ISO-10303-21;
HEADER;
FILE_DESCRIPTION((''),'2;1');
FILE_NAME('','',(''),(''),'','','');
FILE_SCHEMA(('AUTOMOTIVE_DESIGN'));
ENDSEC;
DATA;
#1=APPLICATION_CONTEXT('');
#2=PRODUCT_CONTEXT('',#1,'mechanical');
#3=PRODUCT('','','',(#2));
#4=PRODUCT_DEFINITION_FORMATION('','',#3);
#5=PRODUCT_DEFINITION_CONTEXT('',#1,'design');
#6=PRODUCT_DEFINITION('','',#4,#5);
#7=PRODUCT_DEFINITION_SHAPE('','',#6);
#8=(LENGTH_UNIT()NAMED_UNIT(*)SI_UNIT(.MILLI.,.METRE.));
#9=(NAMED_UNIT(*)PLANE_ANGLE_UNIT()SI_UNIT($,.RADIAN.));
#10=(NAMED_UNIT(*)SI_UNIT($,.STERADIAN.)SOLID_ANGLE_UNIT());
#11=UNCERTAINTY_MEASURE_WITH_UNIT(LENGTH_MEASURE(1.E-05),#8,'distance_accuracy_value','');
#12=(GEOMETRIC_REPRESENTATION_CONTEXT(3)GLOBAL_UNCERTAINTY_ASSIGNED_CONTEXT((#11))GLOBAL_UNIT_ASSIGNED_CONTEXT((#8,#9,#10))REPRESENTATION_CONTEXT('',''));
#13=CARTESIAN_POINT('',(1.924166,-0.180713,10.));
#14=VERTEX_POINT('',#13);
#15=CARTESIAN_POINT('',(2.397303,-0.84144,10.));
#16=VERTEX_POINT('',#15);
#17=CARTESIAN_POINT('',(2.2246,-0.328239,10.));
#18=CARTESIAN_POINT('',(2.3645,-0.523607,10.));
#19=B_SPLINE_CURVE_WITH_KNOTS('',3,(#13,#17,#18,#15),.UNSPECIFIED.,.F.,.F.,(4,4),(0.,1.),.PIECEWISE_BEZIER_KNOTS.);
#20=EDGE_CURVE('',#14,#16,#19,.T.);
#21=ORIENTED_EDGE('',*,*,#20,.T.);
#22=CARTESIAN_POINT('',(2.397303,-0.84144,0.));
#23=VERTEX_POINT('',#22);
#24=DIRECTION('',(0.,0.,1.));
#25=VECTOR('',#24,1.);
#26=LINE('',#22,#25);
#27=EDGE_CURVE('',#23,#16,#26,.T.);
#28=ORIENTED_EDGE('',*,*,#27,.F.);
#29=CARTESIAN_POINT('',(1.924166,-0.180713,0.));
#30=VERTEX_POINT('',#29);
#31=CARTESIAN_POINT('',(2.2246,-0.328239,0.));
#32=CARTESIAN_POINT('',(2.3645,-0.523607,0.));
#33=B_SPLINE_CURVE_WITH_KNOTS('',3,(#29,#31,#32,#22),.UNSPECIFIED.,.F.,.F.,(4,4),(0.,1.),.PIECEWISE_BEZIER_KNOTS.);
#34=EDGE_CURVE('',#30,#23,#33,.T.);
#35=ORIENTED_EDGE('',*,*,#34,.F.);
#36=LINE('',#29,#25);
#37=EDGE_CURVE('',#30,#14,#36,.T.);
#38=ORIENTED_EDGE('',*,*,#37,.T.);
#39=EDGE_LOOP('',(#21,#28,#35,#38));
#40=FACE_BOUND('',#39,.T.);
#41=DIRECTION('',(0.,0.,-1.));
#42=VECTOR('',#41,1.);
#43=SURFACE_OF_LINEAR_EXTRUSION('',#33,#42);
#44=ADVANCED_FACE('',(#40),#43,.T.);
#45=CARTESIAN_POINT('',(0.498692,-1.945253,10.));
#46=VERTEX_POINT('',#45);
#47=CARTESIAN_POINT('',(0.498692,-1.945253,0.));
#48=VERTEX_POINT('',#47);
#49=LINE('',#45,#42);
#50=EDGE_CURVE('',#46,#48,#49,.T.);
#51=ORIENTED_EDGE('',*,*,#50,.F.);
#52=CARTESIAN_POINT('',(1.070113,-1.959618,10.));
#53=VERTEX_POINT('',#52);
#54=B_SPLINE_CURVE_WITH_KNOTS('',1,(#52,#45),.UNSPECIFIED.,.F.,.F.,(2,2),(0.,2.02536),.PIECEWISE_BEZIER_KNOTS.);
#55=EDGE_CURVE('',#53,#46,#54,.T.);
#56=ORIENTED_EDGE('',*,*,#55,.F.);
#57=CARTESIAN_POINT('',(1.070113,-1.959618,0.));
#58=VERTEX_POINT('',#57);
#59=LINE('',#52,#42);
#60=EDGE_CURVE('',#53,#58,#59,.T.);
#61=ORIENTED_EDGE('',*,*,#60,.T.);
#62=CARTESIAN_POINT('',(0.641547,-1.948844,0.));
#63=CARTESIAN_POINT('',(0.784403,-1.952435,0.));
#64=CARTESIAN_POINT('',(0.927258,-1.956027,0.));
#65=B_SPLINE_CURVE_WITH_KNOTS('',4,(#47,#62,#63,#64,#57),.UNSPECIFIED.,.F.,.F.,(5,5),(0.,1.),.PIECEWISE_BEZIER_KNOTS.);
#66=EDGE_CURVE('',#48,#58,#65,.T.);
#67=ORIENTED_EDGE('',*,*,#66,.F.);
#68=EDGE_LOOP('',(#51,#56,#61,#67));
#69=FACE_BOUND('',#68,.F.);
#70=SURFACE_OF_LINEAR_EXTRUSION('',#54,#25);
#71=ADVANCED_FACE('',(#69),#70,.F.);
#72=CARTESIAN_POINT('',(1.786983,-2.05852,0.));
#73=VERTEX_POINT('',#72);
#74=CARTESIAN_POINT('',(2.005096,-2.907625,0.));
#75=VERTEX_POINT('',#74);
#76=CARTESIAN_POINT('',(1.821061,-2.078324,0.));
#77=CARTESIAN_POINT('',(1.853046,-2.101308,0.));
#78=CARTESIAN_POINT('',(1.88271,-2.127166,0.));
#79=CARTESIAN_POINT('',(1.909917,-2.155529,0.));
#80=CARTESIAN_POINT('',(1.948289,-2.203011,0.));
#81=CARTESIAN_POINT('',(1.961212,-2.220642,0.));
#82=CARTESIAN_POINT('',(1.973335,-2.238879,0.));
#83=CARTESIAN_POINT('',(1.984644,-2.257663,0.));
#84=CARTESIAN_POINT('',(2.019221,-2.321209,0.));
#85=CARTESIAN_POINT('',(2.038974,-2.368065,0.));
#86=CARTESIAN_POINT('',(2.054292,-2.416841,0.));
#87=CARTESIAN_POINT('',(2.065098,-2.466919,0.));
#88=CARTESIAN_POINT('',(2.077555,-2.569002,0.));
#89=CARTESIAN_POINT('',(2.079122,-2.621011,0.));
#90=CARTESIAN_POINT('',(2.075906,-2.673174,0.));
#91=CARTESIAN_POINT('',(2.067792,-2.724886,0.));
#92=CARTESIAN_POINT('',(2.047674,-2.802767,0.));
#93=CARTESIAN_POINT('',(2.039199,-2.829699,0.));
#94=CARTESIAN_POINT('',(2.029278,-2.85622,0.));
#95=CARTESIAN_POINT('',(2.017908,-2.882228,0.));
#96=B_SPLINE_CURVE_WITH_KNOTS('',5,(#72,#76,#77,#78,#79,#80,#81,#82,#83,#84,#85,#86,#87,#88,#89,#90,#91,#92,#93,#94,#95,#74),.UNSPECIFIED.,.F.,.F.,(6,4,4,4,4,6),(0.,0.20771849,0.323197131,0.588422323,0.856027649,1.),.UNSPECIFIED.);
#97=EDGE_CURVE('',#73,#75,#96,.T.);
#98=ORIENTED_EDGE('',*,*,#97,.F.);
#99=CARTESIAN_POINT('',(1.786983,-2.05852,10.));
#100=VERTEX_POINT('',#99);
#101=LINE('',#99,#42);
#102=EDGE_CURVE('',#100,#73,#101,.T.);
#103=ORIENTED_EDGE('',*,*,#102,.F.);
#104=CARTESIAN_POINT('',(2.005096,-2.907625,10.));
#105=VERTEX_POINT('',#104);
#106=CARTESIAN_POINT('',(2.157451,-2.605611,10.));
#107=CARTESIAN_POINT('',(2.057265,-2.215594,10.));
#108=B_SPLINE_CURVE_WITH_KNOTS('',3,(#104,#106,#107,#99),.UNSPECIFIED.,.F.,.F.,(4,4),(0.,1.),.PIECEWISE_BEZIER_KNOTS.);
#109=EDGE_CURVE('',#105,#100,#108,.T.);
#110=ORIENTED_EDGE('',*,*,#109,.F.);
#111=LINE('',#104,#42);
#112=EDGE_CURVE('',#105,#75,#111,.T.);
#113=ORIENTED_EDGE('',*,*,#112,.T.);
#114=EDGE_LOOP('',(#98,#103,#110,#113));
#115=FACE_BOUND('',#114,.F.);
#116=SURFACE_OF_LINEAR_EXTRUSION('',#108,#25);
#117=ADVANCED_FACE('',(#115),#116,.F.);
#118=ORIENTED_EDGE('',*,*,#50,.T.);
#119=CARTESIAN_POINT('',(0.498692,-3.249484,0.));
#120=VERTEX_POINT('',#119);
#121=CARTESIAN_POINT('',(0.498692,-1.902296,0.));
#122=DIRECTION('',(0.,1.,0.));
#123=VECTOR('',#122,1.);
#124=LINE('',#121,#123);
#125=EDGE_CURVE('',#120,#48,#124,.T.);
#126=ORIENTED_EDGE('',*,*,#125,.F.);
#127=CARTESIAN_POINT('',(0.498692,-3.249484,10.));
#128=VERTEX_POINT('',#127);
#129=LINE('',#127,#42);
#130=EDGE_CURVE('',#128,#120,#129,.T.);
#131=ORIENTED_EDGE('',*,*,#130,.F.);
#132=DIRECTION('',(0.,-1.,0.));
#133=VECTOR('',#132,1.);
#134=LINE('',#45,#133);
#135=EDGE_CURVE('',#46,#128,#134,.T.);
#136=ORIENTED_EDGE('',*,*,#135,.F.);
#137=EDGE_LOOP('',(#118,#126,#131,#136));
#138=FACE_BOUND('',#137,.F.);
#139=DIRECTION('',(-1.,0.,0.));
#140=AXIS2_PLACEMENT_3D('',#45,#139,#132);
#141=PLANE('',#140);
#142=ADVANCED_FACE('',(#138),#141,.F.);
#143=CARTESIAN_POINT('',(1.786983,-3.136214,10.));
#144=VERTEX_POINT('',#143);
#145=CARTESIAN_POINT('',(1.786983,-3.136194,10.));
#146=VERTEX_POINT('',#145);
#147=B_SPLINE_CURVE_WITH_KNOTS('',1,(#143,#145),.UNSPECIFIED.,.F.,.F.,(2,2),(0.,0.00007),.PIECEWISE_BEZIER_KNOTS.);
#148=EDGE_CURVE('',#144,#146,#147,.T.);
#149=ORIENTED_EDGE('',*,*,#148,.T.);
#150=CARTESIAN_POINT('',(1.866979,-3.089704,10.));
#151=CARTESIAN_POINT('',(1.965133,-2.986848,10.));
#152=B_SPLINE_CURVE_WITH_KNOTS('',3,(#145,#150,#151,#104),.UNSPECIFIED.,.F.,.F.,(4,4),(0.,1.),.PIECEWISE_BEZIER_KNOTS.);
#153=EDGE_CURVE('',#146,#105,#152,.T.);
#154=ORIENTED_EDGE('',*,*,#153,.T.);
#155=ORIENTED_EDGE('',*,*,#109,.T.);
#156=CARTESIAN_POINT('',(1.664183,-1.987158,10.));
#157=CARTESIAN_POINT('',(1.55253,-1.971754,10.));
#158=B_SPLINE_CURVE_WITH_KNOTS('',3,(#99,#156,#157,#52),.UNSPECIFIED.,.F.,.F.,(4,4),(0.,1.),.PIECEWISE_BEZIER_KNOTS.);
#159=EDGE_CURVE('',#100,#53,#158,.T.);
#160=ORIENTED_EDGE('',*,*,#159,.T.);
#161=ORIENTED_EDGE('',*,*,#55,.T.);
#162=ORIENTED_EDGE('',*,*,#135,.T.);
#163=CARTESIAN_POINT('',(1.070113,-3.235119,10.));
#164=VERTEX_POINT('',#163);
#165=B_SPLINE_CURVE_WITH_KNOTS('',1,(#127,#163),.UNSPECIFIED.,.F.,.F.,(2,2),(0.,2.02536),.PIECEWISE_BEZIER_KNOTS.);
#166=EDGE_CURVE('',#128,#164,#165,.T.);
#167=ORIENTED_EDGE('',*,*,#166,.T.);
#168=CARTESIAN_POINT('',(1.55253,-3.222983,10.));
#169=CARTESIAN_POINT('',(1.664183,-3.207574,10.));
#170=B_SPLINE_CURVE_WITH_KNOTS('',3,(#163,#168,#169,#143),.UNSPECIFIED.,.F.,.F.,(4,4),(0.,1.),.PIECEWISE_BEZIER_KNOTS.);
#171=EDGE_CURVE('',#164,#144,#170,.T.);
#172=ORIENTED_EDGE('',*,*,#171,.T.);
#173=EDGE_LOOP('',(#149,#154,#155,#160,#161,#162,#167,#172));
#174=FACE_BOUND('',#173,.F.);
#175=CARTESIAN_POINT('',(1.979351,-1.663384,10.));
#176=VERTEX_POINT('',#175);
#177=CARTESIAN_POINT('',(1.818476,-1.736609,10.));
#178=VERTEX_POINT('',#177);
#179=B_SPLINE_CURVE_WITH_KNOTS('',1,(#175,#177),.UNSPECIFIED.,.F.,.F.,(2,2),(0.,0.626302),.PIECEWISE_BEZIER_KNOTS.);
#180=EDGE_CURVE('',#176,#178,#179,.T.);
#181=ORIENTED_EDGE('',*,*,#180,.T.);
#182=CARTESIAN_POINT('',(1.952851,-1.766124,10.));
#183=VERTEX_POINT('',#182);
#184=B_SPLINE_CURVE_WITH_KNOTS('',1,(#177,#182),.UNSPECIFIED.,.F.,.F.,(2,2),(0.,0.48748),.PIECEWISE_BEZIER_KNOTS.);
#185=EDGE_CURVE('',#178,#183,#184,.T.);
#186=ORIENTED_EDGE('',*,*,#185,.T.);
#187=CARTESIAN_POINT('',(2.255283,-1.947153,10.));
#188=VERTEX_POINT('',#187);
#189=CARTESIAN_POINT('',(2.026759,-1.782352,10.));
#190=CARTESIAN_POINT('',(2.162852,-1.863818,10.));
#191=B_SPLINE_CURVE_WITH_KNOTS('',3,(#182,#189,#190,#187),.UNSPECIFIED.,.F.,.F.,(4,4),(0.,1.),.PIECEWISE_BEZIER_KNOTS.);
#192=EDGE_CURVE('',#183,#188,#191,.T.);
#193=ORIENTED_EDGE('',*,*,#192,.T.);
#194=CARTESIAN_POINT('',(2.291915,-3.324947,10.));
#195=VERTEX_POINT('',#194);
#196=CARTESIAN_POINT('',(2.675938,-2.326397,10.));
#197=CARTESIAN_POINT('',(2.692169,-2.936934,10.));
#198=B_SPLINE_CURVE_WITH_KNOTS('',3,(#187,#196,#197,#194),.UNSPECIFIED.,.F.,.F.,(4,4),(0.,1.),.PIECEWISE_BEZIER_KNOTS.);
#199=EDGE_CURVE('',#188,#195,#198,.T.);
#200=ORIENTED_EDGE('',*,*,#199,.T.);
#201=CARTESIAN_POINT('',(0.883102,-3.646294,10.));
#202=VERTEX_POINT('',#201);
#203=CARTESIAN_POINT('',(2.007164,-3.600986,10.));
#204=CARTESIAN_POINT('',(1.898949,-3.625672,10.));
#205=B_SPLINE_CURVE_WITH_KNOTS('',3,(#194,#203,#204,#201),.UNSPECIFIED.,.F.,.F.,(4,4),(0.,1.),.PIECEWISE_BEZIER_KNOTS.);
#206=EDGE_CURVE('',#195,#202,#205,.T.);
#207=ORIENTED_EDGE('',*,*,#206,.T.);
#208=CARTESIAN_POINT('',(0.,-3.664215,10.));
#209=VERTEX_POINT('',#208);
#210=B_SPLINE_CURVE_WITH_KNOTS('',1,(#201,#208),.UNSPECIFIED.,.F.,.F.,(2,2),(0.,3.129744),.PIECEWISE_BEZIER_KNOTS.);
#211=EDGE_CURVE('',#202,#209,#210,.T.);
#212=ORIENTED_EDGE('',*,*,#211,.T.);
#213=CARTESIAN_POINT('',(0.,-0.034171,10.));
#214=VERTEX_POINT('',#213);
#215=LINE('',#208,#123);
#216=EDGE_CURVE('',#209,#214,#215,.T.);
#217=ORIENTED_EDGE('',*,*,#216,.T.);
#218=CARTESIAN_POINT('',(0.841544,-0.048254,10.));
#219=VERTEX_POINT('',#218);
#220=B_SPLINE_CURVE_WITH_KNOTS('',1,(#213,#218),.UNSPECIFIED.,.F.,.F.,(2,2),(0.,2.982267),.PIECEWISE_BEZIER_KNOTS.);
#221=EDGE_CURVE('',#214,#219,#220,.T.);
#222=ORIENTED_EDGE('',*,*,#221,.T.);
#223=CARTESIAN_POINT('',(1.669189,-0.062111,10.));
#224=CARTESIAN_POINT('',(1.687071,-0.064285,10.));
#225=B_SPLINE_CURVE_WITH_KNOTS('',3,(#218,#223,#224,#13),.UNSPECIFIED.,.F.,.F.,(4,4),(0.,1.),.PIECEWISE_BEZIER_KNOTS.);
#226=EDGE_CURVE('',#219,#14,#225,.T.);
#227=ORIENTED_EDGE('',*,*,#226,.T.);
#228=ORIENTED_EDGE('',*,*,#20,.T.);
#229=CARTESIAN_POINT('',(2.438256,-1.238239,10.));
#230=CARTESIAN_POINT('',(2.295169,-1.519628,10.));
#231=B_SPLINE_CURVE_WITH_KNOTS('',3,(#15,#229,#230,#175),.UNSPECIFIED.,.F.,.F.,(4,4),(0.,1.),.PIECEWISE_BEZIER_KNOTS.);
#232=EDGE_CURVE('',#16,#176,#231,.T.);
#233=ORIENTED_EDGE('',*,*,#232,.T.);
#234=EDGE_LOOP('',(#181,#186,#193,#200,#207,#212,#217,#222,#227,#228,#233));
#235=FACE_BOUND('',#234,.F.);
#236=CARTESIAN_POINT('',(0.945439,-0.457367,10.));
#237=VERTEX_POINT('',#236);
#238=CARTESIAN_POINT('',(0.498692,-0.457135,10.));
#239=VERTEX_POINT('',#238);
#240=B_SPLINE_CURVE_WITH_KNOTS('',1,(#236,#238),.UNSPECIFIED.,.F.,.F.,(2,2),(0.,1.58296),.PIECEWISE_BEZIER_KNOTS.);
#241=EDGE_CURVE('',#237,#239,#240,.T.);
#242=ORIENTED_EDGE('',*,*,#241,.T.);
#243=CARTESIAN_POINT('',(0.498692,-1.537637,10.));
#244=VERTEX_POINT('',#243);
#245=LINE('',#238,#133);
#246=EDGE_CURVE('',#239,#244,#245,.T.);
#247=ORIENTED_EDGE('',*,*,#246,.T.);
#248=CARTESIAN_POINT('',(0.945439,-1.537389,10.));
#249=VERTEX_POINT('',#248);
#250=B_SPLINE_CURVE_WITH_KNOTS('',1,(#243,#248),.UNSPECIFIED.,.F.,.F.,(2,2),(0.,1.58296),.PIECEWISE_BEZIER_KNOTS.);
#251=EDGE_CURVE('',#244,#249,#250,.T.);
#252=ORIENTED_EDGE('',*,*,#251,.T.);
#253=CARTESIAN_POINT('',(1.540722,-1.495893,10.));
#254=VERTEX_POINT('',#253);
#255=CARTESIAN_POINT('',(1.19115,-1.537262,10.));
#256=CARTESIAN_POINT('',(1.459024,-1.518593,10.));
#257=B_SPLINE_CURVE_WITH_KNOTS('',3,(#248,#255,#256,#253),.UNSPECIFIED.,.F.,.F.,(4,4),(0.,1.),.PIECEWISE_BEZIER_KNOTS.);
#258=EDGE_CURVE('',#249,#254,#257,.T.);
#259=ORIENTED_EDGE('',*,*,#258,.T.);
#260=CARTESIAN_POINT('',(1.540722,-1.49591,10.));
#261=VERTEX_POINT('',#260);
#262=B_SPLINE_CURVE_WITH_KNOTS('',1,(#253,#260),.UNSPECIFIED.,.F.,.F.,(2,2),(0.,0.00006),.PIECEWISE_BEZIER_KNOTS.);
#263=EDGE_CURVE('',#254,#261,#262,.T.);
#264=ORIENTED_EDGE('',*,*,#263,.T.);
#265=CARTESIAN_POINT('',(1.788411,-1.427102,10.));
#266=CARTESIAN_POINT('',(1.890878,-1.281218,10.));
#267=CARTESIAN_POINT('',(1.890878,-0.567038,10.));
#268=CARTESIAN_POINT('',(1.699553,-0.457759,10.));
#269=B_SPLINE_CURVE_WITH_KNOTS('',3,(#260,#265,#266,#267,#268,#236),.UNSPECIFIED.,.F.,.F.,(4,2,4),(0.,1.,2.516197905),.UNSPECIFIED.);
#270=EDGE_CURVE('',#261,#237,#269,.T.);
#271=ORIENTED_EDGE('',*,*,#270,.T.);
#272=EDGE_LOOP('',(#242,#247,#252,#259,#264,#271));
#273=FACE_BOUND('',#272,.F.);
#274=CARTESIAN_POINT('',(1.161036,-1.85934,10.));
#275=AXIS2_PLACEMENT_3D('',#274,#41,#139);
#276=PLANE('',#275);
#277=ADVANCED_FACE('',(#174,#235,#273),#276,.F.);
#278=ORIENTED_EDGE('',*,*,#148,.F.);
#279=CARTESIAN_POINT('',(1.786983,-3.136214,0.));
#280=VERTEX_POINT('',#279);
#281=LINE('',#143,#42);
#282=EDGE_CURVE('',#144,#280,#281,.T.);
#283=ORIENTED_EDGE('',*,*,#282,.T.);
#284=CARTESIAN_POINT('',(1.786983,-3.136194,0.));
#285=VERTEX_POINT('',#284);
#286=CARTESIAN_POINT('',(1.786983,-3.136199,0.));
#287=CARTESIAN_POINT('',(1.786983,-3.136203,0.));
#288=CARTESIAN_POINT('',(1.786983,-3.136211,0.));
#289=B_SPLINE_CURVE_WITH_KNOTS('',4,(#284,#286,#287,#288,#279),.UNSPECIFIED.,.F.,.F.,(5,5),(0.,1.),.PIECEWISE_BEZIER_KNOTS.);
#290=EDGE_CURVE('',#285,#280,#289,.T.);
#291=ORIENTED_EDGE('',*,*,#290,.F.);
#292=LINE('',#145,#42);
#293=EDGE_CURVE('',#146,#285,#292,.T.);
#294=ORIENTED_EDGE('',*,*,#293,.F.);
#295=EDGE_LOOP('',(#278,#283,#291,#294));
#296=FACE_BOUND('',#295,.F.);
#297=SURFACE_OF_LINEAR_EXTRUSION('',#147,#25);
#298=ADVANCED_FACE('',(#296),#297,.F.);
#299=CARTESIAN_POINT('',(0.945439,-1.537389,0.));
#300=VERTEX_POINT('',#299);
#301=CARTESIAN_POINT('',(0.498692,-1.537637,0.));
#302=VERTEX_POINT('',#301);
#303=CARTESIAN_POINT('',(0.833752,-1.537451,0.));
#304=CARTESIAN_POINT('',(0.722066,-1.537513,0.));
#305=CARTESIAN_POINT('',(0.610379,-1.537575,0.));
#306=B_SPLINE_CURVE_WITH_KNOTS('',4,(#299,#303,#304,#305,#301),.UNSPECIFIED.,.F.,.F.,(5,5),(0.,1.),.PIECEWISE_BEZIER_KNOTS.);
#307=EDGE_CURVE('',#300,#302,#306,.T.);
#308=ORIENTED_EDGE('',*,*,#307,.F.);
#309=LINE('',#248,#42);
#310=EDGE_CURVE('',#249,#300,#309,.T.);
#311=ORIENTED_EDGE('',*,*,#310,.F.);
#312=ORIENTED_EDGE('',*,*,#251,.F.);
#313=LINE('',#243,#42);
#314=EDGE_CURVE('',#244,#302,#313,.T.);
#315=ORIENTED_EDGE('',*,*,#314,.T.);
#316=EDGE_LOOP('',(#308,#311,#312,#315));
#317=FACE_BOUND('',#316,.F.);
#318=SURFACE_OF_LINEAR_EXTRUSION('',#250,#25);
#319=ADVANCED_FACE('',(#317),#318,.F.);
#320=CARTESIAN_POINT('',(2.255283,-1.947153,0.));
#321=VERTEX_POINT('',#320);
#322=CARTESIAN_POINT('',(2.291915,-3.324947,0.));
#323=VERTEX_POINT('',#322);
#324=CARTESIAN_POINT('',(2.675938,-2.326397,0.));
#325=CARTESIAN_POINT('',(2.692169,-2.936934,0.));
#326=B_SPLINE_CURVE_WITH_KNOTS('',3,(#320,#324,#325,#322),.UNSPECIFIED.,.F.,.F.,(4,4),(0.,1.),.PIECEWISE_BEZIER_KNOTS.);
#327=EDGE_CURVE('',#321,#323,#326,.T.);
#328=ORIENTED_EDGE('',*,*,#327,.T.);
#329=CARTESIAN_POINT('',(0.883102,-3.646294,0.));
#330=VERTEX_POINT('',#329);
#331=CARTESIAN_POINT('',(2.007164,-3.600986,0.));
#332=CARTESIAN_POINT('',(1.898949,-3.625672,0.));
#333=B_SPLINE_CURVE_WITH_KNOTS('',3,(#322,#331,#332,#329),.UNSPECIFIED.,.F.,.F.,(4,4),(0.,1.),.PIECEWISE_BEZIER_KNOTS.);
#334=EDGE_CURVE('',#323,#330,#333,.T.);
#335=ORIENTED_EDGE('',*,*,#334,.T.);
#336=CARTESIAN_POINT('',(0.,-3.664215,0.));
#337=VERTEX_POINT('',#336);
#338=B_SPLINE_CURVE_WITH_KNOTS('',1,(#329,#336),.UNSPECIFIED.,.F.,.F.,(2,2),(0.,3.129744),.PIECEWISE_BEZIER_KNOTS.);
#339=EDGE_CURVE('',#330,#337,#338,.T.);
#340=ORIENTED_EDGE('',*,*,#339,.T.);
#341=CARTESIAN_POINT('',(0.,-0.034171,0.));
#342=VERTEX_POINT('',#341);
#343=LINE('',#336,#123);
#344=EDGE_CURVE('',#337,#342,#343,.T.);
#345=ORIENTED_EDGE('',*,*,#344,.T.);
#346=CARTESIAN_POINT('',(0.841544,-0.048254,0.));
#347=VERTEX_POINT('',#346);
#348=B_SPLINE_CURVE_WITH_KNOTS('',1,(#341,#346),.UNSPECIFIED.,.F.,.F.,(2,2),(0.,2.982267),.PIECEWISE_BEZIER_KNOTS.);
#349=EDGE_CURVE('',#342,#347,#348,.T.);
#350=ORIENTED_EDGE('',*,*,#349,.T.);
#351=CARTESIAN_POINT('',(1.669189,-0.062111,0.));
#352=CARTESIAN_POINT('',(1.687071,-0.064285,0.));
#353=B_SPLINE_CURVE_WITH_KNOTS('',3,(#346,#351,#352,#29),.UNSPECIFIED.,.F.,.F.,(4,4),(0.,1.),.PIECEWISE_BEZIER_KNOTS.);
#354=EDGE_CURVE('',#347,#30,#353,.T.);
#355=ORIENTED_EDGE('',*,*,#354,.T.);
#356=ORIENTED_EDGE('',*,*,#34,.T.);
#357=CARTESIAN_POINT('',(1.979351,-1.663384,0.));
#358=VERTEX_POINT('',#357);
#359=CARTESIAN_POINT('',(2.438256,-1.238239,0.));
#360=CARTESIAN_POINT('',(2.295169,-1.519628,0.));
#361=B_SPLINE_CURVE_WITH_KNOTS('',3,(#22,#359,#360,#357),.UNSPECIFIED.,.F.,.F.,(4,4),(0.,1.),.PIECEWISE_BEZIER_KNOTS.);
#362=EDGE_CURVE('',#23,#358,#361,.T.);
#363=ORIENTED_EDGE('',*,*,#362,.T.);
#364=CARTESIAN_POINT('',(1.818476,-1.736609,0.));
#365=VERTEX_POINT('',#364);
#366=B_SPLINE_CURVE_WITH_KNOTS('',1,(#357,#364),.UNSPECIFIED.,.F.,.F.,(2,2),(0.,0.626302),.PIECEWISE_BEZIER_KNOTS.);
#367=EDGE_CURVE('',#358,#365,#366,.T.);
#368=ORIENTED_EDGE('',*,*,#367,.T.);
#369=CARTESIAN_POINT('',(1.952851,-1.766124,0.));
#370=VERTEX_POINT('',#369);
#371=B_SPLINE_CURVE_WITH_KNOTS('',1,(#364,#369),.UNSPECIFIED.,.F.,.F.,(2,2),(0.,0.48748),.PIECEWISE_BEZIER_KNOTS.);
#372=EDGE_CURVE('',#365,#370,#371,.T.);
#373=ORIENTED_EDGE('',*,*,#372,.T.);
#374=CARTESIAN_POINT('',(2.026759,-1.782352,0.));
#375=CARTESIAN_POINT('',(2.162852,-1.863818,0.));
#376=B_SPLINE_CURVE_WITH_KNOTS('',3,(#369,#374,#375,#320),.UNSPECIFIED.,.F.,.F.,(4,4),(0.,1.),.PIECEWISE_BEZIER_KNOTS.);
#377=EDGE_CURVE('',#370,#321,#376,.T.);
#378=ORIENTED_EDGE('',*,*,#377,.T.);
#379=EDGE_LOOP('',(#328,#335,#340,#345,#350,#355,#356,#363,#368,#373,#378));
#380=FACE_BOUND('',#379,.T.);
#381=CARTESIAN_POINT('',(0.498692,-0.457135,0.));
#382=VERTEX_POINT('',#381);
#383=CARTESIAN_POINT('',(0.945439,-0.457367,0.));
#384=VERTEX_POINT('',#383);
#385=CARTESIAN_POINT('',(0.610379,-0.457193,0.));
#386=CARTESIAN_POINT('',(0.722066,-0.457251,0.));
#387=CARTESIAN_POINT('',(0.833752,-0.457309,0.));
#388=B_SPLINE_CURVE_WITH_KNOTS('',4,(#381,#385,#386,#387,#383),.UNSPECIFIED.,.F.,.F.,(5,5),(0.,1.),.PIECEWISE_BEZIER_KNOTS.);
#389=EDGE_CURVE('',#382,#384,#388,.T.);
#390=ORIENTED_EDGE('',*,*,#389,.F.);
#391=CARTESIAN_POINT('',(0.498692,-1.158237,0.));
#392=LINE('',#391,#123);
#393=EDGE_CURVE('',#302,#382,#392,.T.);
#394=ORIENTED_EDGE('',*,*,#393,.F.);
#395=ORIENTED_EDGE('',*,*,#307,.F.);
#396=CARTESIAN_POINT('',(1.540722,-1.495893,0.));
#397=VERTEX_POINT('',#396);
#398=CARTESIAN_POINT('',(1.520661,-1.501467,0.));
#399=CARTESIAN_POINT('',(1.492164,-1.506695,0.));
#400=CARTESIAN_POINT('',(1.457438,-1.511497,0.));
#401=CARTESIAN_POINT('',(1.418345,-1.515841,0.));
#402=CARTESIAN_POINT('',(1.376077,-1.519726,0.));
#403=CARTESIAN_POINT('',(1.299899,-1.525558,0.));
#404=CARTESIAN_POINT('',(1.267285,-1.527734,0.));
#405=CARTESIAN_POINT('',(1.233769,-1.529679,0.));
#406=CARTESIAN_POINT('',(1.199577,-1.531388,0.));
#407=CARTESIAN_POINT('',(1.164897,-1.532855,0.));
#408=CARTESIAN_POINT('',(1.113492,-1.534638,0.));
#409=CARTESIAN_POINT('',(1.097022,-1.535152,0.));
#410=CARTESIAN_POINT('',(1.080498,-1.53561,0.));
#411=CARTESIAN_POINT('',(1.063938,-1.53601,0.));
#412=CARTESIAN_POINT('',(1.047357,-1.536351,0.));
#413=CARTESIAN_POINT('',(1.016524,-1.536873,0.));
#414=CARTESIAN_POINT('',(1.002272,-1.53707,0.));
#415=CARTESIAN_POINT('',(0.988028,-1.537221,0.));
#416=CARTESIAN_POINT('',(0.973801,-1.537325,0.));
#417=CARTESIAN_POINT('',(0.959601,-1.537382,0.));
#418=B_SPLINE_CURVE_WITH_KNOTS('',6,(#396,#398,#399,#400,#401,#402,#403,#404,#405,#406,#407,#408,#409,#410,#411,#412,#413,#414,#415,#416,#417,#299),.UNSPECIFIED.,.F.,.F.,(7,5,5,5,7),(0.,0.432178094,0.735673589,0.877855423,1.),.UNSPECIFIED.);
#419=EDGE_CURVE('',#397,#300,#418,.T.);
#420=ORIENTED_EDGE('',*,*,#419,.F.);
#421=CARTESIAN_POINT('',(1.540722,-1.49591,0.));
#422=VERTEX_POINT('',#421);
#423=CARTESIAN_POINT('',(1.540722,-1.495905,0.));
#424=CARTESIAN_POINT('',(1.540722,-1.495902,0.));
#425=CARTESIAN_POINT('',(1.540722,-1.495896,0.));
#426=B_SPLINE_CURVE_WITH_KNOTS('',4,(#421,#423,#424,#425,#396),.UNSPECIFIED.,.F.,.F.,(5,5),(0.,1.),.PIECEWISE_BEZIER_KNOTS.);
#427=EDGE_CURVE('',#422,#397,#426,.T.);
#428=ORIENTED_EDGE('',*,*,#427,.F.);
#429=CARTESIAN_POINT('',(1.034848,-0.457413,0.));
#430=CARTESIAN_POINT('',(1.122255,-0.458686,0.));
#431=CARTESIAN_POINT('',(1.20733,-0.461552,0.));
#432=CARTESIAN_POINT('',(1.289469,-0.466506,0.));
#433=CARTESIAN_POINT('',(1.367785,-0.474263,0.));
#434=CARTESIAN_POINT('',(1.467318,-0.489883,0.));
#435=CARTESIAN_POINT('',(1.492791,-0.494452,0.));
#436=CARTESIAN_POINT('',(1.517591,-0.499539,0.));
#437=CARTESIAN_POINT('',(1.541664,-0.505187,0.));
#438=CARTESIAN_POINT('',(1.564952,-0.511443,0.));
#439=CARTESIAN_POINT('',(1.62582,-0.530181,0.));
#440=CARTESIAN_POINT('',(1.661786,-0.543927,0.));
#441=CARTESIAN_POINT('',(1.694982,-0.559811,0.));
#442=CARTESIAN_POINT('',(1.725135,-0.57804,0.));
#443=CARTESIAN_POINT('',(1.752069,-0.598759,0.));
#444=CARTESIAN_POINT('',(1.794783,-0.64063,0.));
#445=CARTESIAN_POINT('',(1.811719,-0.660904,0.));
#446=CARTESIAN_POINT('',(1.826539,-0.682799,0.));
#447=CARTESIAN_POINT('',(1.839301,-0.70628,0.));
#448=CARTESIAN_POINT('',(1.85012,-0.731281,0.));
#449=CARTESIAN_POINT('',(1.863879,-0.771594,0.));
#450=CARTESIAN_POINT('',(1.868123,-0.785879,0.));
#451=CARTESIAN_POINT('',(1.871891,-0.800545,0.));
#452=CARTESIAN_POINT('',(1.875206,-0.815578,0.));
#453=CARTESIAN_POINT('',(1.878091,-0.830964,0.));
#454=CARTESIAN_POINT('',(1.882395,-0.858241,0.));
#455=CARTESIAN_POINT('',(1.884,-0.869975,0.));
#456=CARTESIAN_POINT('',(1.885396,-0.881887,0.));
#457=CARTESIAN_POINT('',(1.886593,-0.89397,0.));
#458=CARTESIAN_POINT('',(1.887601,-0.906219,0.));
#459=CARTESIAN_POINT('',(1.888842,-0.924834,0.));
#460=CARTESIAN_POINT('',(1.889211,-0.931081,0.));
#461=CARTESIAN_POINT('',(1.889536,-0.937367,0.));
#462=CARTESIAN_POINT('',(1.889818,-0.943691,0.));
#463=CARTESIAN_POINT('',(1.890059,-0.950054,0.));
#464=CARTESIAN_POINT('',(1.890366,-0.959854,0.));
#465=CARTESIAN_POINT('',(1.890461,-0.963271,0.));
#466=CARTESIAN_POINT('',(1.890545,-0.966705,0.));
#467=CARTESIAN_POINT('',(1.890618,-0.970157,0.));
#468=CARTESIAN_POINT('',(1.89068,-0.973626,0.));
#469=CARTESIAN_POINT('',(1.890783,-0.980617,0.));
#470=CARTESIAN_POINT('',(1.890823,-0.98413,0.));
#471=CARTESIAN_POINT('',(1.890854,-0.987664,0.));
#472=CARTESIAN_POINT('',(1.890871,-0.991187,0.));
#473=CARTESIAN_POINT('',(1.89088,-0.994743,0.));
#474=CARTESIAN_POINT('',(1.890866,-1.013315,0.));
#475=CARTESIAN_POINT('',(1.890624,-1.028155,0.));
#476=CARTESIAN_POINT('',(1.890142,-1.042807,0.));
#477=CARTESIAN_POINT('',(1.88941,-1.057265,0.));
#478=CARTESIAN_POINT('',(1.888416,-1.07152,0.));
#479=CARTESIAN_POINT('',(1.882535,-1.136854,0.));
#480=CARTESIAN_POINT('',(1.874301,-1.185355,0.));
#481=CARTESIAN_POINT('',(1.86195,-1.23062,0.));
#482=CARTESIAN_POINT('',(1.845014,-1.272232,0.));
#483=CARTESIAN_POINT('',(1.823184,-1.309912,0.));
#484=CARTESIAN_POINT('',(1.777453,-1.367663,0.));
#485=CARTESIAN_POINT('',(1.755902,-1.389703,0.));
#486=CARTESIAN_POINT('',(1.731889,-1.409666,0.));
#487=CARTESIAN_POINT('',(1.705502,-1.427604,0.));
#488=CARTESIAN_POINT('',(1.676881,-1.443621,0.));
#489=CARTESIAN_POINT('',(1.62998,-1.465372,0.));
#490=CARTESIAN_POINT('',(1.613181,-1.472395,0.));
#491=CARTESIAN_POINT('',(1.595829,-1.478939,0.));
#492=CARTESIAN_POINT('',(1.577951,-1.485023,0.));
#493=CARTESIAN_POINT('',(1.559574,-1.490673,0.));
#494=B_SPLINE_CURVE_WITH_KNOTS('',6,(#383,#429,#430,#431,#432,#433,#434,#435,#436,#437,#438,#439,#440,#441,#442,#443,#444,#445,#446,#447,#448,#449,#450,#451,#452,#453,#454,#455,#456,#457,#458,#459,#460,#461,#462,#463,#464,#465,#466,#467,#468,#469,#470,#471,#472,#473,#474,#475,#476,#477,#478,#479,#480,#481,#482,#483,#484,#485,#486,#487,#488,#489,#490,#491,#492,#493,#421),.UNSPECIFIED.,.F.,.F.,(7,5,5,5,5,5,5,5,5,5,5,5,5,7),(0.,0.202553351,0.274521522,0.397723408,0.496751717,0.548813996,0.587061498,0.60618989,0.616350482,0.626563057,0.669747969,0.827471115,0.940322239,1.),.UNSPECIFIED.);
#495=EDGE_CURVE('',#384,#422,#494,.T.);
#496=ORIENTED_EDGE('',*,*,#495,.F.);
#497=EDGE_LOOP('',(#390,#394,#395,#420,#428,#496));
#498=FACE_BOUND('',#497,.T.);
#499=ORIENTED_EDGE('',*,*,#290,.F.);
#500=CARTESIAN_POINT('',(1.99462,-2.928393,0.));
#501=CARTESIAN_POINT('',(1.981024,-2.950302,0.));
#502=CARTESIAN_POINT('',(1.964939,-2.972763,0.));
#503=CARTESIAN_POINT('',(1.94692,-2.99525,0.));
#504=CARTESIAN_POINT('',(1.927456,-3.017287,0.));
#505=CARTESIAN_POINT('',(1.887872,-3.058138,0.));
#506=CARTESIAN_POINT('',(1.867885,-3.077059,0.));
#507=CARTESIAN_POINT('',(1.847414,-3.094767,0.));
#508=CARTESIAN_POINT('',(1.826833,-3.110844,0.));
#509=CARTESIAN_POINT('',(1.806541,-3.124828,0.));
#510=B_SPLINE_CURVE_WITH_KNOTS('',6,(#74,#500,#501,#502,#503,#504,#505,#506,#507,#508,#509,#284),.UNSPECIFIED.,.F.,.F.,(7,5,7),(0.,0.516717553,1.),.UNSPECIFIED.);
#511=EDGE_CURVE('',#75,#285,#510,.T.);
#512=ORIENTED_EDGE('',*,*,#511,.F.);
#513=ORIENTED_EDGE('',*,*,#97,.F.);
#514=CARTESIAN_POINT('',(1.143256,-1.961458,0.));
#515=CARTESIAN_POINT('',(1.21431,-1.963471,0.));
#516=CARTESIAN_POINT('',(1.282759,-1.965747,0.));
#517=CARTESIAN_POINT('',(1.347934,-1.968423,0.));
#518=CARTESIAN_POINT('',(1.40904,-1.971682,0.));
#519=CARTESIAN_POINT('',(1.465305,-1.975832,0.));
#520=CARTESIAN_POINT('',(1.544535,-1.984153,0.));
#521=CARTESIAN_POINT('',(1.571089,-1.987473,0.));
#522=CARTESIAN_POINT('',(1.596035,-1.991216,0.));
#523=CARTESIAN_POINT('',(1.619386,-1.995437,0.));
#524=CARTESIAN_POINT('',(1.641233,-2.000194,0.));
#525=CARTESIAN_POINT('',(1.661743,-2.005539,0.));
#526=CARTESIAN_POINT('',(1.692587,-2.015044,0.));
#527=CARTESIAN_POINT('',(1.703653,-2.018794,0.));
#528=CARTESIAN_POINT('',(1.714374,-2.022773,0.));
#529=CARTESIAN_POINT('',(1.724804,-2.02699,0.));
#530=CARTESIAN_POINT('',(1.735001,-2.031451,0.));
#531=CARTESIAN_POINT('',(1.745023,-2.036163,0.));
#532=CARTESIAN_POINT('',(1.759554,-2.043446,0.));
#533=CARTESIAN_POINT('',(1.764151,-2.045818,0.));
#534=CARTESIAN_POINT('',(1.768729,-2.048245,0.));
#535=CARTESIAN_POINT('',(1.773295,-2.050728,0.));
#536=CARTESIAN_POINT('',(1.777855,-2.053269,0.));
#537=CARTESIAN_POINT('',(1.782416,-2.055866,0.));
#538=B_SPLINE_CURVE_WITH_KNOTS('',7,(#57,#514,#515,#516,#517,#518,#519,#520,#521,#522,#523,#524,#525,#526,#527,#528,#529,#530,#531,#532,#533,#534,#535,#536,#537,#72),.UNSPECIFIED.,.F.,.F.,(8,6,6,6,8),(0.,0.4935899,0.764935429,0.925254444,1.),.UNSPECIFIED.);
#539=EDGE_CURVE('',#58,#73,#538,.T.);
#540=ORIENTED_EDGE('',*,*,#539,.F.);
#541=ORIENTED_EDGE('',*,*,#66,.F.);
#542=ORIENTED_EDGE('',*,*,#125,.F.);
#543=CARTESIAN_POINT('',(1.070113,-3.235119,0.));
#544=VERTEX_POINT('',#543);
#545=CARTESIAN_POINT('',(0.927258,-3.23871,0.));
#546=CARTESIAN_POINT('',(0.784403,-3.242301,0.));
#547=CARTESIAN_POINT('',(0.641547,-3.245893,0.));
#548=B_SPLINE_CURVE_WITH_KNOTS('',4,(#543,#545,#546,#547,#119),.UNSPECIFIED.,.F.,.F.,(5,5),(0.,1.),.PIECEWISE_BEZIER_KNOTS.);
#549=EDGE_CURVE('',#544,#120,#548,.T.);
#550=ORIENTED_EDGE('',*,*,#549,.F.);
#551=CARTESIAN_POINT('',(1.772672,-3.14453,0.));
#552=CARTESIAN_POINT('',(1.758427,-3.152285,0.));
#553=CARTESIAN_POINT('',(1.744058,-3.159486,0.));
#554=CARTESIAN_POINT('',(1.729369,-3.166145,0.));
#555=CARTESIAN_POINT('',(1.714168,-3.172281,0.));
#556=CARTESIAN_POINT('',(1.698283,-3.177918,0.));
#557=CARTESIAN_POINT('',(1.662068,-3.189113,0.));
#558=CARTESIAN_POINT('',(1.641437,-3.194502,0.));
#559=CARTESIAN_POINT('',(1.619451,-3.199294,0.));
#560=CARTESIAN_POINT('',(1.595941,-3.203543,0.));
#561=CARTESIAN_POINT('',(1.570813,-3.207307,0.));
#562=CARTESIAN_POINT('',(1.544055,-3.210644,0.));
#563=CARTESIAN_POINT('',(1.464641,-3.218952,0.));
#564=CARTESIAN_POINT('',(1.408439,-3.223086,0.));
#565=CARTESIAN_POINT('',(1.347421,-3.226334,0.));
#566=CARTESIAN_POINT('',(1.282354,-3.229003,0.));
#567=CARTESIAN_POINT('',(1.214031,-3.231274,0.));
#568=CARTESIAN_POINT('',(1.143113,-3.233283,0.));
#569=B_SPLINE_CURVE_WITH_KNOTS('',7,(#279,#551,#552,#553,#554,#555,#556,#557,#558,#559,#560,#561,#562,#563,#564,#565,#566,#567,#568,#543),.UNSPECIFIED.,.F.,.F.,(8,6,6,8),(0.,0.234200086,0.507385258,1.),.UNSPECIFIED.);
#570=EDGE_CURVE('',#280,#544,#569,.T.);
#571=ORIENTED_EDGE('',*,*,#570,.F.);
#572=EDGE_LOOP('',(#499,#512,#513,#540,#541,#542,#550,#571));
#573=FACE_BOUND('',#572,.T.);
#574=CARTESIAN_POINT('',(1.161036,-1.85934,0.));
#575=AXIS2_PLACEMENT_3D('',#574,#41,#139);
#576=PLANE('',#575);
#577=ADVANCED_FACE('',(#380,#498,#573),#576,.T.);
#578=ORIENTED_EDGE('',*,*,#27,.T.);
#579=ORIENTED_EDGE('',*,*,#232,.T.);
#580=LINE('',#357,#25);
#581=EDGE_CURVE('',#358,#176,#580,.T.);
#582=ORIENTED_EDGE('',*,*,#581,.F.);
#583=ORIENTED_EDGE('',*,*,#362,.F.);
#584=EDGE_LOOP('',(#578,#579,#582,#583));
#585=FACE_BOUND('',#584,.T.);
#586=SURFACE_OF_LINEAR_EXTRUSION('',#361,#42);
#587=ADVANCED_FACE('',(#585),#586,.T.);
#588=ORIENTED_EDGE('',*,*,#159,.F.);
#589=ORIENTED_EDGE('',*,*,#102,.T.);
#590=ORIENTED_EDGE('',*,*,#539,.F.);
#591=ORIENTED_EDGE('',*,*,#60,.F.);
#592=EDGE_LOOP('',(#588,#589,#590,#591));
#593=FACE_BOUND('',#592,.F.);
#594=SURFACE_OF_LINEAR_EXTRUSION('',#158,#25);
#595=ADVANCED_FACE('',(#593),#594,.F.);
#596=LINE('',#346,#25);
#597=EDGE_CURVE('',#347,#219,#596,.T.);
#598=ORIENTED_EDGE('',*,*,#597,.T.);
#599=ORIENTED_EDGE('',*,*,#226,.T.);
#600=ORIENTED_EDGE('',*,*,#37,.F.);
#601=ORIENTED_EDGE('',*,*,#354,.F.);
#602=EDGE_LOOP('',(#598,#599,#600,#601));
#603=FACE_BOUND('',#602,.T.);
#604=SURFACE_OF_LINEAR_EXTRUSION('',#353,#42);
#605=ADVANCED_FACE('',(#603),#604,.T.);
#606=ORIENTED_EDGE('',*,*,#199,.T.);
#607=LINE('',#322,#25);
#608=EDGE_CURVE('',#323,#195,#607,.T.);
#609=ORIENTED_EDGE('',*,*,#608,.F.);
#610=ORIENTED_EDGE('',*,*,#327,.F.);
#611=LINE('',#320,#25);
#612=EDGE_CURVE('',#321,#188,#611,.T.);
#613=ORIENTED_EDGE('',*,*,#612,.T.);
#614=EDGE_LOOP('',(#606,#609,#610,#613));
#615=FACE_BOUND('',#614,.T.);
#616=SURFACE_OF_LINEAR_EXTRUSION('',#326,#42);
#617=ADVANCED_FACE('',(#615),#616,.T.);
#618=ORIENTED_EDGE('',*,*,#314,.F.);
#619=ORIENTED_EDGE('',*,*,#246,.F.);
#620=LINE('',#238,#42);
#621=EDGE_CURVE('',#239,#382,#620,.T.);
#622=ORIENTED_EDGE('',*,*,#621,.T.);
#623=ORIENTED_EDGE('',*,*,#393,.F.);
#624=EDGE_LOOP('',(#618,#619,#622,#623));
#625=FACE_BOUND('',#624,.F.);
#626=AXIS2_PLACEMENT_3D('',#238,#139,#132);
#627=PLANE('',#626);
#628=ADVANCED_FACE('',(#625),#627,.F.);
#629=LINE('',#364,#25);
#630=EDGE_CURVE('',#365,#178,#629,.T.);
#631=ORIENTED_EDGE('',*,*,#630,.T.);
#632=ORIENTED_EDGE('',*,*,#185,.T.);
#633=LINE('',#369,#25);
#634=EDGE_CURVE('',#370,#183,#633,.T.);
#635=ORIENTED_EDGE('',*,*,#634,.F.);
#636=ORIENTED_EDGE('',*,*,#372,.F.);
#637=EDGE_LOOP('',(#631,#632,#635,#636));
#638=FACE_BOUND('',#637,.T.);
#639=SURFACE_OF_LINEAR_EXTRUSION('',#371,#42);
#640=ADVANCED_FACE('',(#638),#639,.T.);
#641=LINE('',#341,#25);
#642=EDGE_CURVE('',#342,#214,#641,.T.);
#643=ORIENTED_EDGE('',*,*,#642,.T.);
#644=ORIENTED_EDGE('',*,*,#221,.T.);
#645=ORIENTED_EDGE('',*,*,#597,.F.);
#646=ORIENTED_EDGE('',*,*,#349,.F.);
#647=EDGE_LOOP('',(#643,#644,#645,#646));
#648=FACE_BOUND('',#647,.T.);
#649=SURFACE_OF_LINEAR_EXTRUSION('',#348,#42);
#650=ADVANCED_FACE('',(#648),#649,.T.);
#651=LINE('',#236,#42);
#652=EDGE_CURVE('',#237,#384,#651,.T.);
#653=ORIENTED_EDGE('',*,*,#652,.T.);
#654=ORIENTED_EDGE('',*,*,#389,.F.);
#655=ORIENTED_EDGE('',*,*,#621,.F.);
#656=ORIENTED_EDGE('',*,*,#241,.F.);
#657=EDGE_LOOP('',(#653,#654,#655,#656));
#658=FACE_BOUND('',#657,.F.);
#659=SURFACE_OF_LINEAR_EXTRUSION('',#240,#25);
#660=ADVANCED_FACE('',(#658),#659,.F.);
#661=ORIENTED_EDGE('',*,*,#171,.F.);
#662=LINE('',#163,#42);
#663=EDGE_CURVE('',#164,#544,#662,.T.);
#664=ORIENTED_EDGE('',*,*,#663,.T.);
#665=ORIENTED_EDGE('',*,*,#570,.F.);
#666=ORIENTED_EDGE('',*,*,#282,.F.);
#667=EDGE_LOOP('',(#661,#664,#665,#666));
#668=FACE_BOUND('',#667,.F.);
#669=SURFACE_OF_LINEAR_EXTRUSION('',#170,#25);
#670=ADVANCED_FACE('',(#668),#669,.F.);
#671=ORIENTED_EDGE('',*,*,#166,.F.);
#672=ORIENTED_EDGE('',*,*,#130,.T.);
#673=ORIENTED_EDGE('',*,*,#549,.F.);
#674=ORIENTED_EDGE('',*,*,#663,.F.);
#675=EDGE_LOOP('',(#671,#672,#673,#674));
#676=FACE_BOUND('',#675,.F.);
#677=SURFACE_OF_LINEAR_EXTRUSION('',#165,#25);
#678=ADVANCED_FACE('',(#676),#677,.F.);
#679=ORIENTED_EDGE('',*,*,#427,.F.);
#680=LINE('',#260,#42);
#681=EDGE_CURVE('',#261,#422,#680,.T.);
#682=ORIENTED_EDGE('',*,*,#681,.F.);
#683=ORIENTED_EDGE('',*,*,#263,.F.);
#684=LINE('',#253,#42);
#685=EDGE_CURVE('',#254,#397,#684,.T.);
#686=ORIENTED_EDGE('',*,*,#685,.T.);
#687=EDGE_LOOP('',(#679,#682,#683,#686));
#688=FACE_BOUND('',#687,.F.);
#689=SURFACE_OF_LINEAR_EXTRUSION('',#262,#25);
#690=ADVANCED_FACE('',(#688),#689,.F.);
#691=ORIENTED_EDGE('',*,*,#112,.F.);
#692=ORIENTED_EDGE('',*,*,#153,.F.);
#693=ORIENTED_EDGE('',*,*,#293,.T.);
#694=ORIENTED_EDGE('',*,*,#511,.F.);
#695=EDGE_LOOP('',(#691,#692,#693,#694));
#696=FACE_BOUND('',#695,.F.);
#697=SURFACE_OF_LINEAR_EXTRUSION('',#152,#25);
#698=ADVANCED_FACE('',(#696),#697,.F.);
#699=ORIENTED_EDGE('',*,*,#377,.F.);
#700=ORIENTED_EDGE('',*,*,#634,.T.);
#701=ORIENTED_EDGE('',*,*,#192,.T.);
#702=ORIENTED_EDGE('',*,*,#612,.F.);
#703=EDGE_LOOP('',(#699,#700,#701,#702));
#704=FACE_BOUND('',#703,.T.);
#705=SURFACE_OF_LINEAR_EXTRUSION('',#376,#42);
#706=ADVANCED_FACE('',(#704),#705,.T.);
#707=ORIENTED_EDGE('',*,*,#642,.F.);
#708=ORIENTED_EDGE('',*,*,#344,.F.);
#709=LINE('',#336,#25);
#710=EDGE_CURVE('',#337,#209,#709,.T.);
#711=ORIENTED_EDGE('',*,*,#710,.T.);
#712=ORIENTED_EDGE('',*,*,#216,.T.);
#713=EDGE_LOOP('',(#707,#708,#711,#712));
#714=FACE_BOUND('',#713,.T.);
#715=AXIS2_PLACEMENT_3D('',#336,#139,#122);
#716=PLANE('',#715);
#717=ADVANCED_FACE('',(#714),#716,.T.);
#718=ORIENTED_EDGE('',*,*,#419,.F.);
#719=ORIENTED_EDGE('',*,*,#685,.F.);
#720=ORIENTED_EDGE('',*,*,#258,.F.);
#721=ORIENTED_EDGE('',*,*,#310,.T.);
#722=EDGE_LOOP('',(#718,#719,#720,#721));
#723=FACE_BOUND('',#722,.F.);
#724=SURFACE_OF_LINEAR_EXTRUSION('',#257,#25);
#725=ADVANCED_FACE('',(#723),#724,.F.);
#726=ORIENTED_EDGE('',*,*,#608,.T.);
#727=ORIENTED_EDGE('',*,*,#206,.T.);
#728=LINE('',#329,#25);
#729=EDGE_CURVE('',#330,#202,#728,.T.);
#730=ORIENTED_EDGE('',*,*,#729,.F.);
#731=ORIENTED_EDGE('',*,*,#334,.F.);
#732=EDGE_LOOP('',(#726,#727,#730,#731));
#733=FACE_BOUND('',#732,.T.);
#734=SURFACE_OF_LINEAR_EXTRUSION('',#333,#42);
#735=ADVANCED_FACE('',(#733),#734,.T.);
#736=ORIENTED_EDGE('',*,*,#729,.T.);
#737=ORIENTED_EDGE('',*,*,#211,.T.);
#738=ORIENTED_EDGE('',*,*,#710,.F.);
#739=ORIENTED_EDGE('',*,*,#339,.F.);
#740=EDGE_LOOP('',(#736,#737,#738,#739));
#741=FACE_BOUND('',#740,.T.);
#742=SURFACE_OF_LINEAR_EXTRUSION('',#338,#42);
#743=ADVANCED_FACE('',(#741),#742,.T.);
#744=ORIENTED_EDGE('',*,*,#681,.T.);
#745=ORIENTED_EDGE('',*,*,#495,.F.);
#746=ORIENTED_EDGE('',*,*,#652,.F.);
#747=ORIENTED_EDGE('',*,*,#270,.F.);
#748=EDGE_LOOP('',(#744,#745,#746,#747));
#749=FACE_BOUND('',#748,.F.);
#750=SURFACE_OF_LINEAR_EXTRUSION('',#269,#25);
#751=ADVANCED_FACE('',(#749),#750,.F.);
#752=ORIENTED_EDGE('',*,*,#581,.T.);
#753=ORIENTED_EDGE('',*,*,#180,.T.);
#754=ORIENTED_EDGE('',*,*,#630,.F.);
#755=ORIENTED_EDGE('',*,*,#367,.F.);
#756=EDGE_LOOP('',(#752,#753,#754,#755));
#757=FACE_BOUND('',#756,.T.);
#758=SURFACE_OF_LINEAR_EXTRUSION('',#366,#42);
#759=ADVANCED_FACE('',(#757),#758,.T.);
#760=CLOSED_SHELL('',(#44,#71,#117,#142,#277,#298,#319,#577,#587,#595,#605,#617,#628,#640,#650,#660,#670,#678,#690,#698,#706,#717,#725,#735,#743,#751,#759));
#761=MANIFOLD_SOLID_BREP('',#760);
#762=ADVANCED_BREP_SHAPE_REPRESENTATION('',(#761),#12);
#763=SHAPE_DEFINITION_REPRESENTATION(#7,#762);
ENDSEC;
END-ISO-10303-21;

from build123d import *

# Parameters (mm, degrees)
PAD001_DEPTH    = 10
POCKET_DEPTH    = 10.001
POCKET001_DEPTH = 10.001


with BuildPart() as part:
    # Sketch009 → Pad001 (new body)
    with BuildSketch(Plane.XY):
        with BuildLine():
            add(Edge.make_bspline(
                [(0, -1.849196), (0, -0.034171)],
                knots=[0, 0, 6.43119, 6.43119], degree=1))
            add(Edge.make_bspline(
                [(0, -0.034171), (0.841544, -0.048254)],
                knots=[0, 0, 2.982267, 2.982267], degree=1))
            add(Edge.make_bspline(
                [(0.841544, -0.048254), (1.669189, -0.062111), (1.687071, -0.064285), (1.924166, -0.180713)],
                knots=[0, 0, 0, 0, 1, 1, 1, 1], degree=3))
            add(Edge.make_bspline(
                [(1.924166, -0.180713), (2.2246, -0.328239), (2.3645, -0.523607), (2.397303, -0.84144)],
                knots=[0, 0, 0, 0, 1, 1, 1, 1], degree=3))
            add(Edge.make_bspline(
                [(2.397303, -0.84144), (2.438256, -1.238239), (2.295169, -1.519628), (1.979351, -1.663384)],
                knots=[0, 0, 0, 0, 1, 1, 1, 1], degree=3))
            add(Edge.make_bspline(
                [(1.979351, -1.663384), (1.818476, -1.736609)],
                knots=[0, 0, 0.626302, 0.626302], degree=1))
            add(Edge.make_bspline(
                [(1.818476, -1.736609), (1.952851, -1.766124)],
                knots=[0, 0, 0.48748, 0.48748], degree=1))
            add(Edge.make_bspline(
                [(1.952851, -1.766124), (2.026759, -1.782352), (2.162852, -1.863818), (2.255283, -1.947153)],
                knots=[0, 0, 0, 0, 1, 1, 1, 1], degree=3))
            add(Edge.make_bspline(
                [(2.255283, -1.947153), (2.675938, -2.326397), (2.692169, -2.936934), (2.291915, -3.324947)],
                knots=[0, 0, 0, 0, 1, 1, 1, 1], degree=3))
            add(Edge.make_bspline(
                [(2.291915, -3.324947), (2.007164, -3.600986), (1.898949, -3.625672), (0.883102, -3.646294)],
                knots=[0, 0, 0, 0, 1, 1, 1, 1], degree=3))
            add(Edge.make_bspline(
                [(0.883102, -3.646294), (0, -3.664215)],
                knots=[0, 0, 3.129744, 3.129744], degree=1))
            add(Edge.make_bspline(
                [(0, -3.664215), (0, -1.849196)],
                knots=[0, 0, 6.43117, 6.43117], degree=1))
        make_face()
    extrude(amount=PAD001_DEPTH)

    # Sketch010 (on Face14 of Pad001) → Pocket (cut, through all)
    with BuildSketch(Plane.XY.offset(10)):
        with BuildLine():
            add(Edge.make_bspline(
                [(1.786983, -3.136194), (1.866979, -3.089704), (1.965133, -2.986848), (2.005096, -2.907625)],
                knots=[0, 0, 0, 0, 1, 1, 1, 1], degree=3))
            add(Edge.make_bspline(
                [(2.005096, -2.907625), (2.157451, -2.605611), (2.057265, -2.215594), (1.786983, -2.05852)],
                knots=[0, 0, 0, 0, 1, 1, 1, 1], degree=3))
            add(Edge.make_bspline(
                [(1.786983, -2.05852), (1.664183, -1.987158), (1.55253, -1.971754), (1.070113, -1.959618)],
                knots=[0, 0, 0, 0, 1, 1, 1, 1], degree=3))
            add(Edge.make_bspline(
                [(1.070113, -1.959618), (0.498692, -1.945253)],
                knots=[0, 0, 2.02536, 2.02536], degree=1))
            add(Edge.make_bspline(
                [(0.498692, -1.945253), (0.498692, -2.597367)],
                knots=[0, 0, 2.31064, 2.31064], degree=1))
            add(Edge.make_bspline(
                [(0.498692, -2.597367), (0.498692, -3.249484)],
                knots=[0, 0, 2.31065, 2.31065], degree=1))
            add(Edge.make_bspline(
                [(0.498692, -3.249484), (1.070113, -3.235119)],
                knots=[0, 0, 2.02536, 2.02536], degree=1))
            add(Edge.make_bspline(
                [(1.070113, -3.235119), (1.55253, -3.222983), (1.664183, -3.207574), (1.786983, -3.136214)],
                knots=[0, 0, 0, 0, 1, 1, 1, 1], degree=3))
            add(Edge.make_bspline(
                [(1.786983, -3.136214), (1.786983, -3.136194)],
                knots=[0, 0, 7e-05, 7e-05], degree=1))
        make_face()
    extrude(amount=-POCKET_DEPTH, mode=Mode.SUBTRACT)

    # Sketch007 (on Face14 of Pad001) → Pocket001 (cut, through all)
    with BuildSketch(Plane.XY.offset(10)):
        with BuildLine():
            add(Edge.make_bspline(
                [(1.540722, -1.49591), (1.788411, -1.427102), (1.890878, -1.281218), (1.890878, -0.997385)],
                knots=[0, 0, 0, 0, 1, 1, 1, 1], degree=3))
            add(Edge.make_bspline(
                [(1.890878, -0.997385), (1.890878, -0.567038), (1.699553, -0.457759), (0.945439, -0.457367)],
                knots=[0, 0, 0, 0, 1, 1, 1, 1], degree=3))
            add(Edge.make_bspline(
                [(0.945439, -0.457367), (0.498692, -0.457135)],
                knots=[0, 0, 1.58296, 1.58296], degree=1))
            add(Edge.make_bspline(
                [(0.498692, -0.457135), (0.498692, -0.997387)],
                knots=[0, 0, 1.91428, 1.91428], degree=1))
            add(Edge.make_bspline(
                [(0.498692, -0.997387), (0.498692, -1.537637)],
                knots=[0, 0, 1.91427, 1.91427], degree=1))
            add(Edge.make_bspline(
                [(0.498692, -1.537637), (0.945439, -1.537389)],
                knots=[0, 0, 1.58296, 1.58296], degree=1))
            add(Edge.make_bspline(
                [(0.945439, -1.537389), (1.19115, -1.537262), (1.459024, -1.518593), (1.540722, -1.495893)],
                knots=[0, 0, 0, 0, 1, 1, 1, 1], degree=3))
            add(Edge.make_bspline(
                [(1.540722, -1.495893), (1.540722, -1.49591)],
                knots=[0, 0, 6e-05, 6e-05], degree=1))
        make_face()
    extrude(amount=-POCKET001_DEPTH, mode=Mode.SUBTRACT)


solid = part.part
